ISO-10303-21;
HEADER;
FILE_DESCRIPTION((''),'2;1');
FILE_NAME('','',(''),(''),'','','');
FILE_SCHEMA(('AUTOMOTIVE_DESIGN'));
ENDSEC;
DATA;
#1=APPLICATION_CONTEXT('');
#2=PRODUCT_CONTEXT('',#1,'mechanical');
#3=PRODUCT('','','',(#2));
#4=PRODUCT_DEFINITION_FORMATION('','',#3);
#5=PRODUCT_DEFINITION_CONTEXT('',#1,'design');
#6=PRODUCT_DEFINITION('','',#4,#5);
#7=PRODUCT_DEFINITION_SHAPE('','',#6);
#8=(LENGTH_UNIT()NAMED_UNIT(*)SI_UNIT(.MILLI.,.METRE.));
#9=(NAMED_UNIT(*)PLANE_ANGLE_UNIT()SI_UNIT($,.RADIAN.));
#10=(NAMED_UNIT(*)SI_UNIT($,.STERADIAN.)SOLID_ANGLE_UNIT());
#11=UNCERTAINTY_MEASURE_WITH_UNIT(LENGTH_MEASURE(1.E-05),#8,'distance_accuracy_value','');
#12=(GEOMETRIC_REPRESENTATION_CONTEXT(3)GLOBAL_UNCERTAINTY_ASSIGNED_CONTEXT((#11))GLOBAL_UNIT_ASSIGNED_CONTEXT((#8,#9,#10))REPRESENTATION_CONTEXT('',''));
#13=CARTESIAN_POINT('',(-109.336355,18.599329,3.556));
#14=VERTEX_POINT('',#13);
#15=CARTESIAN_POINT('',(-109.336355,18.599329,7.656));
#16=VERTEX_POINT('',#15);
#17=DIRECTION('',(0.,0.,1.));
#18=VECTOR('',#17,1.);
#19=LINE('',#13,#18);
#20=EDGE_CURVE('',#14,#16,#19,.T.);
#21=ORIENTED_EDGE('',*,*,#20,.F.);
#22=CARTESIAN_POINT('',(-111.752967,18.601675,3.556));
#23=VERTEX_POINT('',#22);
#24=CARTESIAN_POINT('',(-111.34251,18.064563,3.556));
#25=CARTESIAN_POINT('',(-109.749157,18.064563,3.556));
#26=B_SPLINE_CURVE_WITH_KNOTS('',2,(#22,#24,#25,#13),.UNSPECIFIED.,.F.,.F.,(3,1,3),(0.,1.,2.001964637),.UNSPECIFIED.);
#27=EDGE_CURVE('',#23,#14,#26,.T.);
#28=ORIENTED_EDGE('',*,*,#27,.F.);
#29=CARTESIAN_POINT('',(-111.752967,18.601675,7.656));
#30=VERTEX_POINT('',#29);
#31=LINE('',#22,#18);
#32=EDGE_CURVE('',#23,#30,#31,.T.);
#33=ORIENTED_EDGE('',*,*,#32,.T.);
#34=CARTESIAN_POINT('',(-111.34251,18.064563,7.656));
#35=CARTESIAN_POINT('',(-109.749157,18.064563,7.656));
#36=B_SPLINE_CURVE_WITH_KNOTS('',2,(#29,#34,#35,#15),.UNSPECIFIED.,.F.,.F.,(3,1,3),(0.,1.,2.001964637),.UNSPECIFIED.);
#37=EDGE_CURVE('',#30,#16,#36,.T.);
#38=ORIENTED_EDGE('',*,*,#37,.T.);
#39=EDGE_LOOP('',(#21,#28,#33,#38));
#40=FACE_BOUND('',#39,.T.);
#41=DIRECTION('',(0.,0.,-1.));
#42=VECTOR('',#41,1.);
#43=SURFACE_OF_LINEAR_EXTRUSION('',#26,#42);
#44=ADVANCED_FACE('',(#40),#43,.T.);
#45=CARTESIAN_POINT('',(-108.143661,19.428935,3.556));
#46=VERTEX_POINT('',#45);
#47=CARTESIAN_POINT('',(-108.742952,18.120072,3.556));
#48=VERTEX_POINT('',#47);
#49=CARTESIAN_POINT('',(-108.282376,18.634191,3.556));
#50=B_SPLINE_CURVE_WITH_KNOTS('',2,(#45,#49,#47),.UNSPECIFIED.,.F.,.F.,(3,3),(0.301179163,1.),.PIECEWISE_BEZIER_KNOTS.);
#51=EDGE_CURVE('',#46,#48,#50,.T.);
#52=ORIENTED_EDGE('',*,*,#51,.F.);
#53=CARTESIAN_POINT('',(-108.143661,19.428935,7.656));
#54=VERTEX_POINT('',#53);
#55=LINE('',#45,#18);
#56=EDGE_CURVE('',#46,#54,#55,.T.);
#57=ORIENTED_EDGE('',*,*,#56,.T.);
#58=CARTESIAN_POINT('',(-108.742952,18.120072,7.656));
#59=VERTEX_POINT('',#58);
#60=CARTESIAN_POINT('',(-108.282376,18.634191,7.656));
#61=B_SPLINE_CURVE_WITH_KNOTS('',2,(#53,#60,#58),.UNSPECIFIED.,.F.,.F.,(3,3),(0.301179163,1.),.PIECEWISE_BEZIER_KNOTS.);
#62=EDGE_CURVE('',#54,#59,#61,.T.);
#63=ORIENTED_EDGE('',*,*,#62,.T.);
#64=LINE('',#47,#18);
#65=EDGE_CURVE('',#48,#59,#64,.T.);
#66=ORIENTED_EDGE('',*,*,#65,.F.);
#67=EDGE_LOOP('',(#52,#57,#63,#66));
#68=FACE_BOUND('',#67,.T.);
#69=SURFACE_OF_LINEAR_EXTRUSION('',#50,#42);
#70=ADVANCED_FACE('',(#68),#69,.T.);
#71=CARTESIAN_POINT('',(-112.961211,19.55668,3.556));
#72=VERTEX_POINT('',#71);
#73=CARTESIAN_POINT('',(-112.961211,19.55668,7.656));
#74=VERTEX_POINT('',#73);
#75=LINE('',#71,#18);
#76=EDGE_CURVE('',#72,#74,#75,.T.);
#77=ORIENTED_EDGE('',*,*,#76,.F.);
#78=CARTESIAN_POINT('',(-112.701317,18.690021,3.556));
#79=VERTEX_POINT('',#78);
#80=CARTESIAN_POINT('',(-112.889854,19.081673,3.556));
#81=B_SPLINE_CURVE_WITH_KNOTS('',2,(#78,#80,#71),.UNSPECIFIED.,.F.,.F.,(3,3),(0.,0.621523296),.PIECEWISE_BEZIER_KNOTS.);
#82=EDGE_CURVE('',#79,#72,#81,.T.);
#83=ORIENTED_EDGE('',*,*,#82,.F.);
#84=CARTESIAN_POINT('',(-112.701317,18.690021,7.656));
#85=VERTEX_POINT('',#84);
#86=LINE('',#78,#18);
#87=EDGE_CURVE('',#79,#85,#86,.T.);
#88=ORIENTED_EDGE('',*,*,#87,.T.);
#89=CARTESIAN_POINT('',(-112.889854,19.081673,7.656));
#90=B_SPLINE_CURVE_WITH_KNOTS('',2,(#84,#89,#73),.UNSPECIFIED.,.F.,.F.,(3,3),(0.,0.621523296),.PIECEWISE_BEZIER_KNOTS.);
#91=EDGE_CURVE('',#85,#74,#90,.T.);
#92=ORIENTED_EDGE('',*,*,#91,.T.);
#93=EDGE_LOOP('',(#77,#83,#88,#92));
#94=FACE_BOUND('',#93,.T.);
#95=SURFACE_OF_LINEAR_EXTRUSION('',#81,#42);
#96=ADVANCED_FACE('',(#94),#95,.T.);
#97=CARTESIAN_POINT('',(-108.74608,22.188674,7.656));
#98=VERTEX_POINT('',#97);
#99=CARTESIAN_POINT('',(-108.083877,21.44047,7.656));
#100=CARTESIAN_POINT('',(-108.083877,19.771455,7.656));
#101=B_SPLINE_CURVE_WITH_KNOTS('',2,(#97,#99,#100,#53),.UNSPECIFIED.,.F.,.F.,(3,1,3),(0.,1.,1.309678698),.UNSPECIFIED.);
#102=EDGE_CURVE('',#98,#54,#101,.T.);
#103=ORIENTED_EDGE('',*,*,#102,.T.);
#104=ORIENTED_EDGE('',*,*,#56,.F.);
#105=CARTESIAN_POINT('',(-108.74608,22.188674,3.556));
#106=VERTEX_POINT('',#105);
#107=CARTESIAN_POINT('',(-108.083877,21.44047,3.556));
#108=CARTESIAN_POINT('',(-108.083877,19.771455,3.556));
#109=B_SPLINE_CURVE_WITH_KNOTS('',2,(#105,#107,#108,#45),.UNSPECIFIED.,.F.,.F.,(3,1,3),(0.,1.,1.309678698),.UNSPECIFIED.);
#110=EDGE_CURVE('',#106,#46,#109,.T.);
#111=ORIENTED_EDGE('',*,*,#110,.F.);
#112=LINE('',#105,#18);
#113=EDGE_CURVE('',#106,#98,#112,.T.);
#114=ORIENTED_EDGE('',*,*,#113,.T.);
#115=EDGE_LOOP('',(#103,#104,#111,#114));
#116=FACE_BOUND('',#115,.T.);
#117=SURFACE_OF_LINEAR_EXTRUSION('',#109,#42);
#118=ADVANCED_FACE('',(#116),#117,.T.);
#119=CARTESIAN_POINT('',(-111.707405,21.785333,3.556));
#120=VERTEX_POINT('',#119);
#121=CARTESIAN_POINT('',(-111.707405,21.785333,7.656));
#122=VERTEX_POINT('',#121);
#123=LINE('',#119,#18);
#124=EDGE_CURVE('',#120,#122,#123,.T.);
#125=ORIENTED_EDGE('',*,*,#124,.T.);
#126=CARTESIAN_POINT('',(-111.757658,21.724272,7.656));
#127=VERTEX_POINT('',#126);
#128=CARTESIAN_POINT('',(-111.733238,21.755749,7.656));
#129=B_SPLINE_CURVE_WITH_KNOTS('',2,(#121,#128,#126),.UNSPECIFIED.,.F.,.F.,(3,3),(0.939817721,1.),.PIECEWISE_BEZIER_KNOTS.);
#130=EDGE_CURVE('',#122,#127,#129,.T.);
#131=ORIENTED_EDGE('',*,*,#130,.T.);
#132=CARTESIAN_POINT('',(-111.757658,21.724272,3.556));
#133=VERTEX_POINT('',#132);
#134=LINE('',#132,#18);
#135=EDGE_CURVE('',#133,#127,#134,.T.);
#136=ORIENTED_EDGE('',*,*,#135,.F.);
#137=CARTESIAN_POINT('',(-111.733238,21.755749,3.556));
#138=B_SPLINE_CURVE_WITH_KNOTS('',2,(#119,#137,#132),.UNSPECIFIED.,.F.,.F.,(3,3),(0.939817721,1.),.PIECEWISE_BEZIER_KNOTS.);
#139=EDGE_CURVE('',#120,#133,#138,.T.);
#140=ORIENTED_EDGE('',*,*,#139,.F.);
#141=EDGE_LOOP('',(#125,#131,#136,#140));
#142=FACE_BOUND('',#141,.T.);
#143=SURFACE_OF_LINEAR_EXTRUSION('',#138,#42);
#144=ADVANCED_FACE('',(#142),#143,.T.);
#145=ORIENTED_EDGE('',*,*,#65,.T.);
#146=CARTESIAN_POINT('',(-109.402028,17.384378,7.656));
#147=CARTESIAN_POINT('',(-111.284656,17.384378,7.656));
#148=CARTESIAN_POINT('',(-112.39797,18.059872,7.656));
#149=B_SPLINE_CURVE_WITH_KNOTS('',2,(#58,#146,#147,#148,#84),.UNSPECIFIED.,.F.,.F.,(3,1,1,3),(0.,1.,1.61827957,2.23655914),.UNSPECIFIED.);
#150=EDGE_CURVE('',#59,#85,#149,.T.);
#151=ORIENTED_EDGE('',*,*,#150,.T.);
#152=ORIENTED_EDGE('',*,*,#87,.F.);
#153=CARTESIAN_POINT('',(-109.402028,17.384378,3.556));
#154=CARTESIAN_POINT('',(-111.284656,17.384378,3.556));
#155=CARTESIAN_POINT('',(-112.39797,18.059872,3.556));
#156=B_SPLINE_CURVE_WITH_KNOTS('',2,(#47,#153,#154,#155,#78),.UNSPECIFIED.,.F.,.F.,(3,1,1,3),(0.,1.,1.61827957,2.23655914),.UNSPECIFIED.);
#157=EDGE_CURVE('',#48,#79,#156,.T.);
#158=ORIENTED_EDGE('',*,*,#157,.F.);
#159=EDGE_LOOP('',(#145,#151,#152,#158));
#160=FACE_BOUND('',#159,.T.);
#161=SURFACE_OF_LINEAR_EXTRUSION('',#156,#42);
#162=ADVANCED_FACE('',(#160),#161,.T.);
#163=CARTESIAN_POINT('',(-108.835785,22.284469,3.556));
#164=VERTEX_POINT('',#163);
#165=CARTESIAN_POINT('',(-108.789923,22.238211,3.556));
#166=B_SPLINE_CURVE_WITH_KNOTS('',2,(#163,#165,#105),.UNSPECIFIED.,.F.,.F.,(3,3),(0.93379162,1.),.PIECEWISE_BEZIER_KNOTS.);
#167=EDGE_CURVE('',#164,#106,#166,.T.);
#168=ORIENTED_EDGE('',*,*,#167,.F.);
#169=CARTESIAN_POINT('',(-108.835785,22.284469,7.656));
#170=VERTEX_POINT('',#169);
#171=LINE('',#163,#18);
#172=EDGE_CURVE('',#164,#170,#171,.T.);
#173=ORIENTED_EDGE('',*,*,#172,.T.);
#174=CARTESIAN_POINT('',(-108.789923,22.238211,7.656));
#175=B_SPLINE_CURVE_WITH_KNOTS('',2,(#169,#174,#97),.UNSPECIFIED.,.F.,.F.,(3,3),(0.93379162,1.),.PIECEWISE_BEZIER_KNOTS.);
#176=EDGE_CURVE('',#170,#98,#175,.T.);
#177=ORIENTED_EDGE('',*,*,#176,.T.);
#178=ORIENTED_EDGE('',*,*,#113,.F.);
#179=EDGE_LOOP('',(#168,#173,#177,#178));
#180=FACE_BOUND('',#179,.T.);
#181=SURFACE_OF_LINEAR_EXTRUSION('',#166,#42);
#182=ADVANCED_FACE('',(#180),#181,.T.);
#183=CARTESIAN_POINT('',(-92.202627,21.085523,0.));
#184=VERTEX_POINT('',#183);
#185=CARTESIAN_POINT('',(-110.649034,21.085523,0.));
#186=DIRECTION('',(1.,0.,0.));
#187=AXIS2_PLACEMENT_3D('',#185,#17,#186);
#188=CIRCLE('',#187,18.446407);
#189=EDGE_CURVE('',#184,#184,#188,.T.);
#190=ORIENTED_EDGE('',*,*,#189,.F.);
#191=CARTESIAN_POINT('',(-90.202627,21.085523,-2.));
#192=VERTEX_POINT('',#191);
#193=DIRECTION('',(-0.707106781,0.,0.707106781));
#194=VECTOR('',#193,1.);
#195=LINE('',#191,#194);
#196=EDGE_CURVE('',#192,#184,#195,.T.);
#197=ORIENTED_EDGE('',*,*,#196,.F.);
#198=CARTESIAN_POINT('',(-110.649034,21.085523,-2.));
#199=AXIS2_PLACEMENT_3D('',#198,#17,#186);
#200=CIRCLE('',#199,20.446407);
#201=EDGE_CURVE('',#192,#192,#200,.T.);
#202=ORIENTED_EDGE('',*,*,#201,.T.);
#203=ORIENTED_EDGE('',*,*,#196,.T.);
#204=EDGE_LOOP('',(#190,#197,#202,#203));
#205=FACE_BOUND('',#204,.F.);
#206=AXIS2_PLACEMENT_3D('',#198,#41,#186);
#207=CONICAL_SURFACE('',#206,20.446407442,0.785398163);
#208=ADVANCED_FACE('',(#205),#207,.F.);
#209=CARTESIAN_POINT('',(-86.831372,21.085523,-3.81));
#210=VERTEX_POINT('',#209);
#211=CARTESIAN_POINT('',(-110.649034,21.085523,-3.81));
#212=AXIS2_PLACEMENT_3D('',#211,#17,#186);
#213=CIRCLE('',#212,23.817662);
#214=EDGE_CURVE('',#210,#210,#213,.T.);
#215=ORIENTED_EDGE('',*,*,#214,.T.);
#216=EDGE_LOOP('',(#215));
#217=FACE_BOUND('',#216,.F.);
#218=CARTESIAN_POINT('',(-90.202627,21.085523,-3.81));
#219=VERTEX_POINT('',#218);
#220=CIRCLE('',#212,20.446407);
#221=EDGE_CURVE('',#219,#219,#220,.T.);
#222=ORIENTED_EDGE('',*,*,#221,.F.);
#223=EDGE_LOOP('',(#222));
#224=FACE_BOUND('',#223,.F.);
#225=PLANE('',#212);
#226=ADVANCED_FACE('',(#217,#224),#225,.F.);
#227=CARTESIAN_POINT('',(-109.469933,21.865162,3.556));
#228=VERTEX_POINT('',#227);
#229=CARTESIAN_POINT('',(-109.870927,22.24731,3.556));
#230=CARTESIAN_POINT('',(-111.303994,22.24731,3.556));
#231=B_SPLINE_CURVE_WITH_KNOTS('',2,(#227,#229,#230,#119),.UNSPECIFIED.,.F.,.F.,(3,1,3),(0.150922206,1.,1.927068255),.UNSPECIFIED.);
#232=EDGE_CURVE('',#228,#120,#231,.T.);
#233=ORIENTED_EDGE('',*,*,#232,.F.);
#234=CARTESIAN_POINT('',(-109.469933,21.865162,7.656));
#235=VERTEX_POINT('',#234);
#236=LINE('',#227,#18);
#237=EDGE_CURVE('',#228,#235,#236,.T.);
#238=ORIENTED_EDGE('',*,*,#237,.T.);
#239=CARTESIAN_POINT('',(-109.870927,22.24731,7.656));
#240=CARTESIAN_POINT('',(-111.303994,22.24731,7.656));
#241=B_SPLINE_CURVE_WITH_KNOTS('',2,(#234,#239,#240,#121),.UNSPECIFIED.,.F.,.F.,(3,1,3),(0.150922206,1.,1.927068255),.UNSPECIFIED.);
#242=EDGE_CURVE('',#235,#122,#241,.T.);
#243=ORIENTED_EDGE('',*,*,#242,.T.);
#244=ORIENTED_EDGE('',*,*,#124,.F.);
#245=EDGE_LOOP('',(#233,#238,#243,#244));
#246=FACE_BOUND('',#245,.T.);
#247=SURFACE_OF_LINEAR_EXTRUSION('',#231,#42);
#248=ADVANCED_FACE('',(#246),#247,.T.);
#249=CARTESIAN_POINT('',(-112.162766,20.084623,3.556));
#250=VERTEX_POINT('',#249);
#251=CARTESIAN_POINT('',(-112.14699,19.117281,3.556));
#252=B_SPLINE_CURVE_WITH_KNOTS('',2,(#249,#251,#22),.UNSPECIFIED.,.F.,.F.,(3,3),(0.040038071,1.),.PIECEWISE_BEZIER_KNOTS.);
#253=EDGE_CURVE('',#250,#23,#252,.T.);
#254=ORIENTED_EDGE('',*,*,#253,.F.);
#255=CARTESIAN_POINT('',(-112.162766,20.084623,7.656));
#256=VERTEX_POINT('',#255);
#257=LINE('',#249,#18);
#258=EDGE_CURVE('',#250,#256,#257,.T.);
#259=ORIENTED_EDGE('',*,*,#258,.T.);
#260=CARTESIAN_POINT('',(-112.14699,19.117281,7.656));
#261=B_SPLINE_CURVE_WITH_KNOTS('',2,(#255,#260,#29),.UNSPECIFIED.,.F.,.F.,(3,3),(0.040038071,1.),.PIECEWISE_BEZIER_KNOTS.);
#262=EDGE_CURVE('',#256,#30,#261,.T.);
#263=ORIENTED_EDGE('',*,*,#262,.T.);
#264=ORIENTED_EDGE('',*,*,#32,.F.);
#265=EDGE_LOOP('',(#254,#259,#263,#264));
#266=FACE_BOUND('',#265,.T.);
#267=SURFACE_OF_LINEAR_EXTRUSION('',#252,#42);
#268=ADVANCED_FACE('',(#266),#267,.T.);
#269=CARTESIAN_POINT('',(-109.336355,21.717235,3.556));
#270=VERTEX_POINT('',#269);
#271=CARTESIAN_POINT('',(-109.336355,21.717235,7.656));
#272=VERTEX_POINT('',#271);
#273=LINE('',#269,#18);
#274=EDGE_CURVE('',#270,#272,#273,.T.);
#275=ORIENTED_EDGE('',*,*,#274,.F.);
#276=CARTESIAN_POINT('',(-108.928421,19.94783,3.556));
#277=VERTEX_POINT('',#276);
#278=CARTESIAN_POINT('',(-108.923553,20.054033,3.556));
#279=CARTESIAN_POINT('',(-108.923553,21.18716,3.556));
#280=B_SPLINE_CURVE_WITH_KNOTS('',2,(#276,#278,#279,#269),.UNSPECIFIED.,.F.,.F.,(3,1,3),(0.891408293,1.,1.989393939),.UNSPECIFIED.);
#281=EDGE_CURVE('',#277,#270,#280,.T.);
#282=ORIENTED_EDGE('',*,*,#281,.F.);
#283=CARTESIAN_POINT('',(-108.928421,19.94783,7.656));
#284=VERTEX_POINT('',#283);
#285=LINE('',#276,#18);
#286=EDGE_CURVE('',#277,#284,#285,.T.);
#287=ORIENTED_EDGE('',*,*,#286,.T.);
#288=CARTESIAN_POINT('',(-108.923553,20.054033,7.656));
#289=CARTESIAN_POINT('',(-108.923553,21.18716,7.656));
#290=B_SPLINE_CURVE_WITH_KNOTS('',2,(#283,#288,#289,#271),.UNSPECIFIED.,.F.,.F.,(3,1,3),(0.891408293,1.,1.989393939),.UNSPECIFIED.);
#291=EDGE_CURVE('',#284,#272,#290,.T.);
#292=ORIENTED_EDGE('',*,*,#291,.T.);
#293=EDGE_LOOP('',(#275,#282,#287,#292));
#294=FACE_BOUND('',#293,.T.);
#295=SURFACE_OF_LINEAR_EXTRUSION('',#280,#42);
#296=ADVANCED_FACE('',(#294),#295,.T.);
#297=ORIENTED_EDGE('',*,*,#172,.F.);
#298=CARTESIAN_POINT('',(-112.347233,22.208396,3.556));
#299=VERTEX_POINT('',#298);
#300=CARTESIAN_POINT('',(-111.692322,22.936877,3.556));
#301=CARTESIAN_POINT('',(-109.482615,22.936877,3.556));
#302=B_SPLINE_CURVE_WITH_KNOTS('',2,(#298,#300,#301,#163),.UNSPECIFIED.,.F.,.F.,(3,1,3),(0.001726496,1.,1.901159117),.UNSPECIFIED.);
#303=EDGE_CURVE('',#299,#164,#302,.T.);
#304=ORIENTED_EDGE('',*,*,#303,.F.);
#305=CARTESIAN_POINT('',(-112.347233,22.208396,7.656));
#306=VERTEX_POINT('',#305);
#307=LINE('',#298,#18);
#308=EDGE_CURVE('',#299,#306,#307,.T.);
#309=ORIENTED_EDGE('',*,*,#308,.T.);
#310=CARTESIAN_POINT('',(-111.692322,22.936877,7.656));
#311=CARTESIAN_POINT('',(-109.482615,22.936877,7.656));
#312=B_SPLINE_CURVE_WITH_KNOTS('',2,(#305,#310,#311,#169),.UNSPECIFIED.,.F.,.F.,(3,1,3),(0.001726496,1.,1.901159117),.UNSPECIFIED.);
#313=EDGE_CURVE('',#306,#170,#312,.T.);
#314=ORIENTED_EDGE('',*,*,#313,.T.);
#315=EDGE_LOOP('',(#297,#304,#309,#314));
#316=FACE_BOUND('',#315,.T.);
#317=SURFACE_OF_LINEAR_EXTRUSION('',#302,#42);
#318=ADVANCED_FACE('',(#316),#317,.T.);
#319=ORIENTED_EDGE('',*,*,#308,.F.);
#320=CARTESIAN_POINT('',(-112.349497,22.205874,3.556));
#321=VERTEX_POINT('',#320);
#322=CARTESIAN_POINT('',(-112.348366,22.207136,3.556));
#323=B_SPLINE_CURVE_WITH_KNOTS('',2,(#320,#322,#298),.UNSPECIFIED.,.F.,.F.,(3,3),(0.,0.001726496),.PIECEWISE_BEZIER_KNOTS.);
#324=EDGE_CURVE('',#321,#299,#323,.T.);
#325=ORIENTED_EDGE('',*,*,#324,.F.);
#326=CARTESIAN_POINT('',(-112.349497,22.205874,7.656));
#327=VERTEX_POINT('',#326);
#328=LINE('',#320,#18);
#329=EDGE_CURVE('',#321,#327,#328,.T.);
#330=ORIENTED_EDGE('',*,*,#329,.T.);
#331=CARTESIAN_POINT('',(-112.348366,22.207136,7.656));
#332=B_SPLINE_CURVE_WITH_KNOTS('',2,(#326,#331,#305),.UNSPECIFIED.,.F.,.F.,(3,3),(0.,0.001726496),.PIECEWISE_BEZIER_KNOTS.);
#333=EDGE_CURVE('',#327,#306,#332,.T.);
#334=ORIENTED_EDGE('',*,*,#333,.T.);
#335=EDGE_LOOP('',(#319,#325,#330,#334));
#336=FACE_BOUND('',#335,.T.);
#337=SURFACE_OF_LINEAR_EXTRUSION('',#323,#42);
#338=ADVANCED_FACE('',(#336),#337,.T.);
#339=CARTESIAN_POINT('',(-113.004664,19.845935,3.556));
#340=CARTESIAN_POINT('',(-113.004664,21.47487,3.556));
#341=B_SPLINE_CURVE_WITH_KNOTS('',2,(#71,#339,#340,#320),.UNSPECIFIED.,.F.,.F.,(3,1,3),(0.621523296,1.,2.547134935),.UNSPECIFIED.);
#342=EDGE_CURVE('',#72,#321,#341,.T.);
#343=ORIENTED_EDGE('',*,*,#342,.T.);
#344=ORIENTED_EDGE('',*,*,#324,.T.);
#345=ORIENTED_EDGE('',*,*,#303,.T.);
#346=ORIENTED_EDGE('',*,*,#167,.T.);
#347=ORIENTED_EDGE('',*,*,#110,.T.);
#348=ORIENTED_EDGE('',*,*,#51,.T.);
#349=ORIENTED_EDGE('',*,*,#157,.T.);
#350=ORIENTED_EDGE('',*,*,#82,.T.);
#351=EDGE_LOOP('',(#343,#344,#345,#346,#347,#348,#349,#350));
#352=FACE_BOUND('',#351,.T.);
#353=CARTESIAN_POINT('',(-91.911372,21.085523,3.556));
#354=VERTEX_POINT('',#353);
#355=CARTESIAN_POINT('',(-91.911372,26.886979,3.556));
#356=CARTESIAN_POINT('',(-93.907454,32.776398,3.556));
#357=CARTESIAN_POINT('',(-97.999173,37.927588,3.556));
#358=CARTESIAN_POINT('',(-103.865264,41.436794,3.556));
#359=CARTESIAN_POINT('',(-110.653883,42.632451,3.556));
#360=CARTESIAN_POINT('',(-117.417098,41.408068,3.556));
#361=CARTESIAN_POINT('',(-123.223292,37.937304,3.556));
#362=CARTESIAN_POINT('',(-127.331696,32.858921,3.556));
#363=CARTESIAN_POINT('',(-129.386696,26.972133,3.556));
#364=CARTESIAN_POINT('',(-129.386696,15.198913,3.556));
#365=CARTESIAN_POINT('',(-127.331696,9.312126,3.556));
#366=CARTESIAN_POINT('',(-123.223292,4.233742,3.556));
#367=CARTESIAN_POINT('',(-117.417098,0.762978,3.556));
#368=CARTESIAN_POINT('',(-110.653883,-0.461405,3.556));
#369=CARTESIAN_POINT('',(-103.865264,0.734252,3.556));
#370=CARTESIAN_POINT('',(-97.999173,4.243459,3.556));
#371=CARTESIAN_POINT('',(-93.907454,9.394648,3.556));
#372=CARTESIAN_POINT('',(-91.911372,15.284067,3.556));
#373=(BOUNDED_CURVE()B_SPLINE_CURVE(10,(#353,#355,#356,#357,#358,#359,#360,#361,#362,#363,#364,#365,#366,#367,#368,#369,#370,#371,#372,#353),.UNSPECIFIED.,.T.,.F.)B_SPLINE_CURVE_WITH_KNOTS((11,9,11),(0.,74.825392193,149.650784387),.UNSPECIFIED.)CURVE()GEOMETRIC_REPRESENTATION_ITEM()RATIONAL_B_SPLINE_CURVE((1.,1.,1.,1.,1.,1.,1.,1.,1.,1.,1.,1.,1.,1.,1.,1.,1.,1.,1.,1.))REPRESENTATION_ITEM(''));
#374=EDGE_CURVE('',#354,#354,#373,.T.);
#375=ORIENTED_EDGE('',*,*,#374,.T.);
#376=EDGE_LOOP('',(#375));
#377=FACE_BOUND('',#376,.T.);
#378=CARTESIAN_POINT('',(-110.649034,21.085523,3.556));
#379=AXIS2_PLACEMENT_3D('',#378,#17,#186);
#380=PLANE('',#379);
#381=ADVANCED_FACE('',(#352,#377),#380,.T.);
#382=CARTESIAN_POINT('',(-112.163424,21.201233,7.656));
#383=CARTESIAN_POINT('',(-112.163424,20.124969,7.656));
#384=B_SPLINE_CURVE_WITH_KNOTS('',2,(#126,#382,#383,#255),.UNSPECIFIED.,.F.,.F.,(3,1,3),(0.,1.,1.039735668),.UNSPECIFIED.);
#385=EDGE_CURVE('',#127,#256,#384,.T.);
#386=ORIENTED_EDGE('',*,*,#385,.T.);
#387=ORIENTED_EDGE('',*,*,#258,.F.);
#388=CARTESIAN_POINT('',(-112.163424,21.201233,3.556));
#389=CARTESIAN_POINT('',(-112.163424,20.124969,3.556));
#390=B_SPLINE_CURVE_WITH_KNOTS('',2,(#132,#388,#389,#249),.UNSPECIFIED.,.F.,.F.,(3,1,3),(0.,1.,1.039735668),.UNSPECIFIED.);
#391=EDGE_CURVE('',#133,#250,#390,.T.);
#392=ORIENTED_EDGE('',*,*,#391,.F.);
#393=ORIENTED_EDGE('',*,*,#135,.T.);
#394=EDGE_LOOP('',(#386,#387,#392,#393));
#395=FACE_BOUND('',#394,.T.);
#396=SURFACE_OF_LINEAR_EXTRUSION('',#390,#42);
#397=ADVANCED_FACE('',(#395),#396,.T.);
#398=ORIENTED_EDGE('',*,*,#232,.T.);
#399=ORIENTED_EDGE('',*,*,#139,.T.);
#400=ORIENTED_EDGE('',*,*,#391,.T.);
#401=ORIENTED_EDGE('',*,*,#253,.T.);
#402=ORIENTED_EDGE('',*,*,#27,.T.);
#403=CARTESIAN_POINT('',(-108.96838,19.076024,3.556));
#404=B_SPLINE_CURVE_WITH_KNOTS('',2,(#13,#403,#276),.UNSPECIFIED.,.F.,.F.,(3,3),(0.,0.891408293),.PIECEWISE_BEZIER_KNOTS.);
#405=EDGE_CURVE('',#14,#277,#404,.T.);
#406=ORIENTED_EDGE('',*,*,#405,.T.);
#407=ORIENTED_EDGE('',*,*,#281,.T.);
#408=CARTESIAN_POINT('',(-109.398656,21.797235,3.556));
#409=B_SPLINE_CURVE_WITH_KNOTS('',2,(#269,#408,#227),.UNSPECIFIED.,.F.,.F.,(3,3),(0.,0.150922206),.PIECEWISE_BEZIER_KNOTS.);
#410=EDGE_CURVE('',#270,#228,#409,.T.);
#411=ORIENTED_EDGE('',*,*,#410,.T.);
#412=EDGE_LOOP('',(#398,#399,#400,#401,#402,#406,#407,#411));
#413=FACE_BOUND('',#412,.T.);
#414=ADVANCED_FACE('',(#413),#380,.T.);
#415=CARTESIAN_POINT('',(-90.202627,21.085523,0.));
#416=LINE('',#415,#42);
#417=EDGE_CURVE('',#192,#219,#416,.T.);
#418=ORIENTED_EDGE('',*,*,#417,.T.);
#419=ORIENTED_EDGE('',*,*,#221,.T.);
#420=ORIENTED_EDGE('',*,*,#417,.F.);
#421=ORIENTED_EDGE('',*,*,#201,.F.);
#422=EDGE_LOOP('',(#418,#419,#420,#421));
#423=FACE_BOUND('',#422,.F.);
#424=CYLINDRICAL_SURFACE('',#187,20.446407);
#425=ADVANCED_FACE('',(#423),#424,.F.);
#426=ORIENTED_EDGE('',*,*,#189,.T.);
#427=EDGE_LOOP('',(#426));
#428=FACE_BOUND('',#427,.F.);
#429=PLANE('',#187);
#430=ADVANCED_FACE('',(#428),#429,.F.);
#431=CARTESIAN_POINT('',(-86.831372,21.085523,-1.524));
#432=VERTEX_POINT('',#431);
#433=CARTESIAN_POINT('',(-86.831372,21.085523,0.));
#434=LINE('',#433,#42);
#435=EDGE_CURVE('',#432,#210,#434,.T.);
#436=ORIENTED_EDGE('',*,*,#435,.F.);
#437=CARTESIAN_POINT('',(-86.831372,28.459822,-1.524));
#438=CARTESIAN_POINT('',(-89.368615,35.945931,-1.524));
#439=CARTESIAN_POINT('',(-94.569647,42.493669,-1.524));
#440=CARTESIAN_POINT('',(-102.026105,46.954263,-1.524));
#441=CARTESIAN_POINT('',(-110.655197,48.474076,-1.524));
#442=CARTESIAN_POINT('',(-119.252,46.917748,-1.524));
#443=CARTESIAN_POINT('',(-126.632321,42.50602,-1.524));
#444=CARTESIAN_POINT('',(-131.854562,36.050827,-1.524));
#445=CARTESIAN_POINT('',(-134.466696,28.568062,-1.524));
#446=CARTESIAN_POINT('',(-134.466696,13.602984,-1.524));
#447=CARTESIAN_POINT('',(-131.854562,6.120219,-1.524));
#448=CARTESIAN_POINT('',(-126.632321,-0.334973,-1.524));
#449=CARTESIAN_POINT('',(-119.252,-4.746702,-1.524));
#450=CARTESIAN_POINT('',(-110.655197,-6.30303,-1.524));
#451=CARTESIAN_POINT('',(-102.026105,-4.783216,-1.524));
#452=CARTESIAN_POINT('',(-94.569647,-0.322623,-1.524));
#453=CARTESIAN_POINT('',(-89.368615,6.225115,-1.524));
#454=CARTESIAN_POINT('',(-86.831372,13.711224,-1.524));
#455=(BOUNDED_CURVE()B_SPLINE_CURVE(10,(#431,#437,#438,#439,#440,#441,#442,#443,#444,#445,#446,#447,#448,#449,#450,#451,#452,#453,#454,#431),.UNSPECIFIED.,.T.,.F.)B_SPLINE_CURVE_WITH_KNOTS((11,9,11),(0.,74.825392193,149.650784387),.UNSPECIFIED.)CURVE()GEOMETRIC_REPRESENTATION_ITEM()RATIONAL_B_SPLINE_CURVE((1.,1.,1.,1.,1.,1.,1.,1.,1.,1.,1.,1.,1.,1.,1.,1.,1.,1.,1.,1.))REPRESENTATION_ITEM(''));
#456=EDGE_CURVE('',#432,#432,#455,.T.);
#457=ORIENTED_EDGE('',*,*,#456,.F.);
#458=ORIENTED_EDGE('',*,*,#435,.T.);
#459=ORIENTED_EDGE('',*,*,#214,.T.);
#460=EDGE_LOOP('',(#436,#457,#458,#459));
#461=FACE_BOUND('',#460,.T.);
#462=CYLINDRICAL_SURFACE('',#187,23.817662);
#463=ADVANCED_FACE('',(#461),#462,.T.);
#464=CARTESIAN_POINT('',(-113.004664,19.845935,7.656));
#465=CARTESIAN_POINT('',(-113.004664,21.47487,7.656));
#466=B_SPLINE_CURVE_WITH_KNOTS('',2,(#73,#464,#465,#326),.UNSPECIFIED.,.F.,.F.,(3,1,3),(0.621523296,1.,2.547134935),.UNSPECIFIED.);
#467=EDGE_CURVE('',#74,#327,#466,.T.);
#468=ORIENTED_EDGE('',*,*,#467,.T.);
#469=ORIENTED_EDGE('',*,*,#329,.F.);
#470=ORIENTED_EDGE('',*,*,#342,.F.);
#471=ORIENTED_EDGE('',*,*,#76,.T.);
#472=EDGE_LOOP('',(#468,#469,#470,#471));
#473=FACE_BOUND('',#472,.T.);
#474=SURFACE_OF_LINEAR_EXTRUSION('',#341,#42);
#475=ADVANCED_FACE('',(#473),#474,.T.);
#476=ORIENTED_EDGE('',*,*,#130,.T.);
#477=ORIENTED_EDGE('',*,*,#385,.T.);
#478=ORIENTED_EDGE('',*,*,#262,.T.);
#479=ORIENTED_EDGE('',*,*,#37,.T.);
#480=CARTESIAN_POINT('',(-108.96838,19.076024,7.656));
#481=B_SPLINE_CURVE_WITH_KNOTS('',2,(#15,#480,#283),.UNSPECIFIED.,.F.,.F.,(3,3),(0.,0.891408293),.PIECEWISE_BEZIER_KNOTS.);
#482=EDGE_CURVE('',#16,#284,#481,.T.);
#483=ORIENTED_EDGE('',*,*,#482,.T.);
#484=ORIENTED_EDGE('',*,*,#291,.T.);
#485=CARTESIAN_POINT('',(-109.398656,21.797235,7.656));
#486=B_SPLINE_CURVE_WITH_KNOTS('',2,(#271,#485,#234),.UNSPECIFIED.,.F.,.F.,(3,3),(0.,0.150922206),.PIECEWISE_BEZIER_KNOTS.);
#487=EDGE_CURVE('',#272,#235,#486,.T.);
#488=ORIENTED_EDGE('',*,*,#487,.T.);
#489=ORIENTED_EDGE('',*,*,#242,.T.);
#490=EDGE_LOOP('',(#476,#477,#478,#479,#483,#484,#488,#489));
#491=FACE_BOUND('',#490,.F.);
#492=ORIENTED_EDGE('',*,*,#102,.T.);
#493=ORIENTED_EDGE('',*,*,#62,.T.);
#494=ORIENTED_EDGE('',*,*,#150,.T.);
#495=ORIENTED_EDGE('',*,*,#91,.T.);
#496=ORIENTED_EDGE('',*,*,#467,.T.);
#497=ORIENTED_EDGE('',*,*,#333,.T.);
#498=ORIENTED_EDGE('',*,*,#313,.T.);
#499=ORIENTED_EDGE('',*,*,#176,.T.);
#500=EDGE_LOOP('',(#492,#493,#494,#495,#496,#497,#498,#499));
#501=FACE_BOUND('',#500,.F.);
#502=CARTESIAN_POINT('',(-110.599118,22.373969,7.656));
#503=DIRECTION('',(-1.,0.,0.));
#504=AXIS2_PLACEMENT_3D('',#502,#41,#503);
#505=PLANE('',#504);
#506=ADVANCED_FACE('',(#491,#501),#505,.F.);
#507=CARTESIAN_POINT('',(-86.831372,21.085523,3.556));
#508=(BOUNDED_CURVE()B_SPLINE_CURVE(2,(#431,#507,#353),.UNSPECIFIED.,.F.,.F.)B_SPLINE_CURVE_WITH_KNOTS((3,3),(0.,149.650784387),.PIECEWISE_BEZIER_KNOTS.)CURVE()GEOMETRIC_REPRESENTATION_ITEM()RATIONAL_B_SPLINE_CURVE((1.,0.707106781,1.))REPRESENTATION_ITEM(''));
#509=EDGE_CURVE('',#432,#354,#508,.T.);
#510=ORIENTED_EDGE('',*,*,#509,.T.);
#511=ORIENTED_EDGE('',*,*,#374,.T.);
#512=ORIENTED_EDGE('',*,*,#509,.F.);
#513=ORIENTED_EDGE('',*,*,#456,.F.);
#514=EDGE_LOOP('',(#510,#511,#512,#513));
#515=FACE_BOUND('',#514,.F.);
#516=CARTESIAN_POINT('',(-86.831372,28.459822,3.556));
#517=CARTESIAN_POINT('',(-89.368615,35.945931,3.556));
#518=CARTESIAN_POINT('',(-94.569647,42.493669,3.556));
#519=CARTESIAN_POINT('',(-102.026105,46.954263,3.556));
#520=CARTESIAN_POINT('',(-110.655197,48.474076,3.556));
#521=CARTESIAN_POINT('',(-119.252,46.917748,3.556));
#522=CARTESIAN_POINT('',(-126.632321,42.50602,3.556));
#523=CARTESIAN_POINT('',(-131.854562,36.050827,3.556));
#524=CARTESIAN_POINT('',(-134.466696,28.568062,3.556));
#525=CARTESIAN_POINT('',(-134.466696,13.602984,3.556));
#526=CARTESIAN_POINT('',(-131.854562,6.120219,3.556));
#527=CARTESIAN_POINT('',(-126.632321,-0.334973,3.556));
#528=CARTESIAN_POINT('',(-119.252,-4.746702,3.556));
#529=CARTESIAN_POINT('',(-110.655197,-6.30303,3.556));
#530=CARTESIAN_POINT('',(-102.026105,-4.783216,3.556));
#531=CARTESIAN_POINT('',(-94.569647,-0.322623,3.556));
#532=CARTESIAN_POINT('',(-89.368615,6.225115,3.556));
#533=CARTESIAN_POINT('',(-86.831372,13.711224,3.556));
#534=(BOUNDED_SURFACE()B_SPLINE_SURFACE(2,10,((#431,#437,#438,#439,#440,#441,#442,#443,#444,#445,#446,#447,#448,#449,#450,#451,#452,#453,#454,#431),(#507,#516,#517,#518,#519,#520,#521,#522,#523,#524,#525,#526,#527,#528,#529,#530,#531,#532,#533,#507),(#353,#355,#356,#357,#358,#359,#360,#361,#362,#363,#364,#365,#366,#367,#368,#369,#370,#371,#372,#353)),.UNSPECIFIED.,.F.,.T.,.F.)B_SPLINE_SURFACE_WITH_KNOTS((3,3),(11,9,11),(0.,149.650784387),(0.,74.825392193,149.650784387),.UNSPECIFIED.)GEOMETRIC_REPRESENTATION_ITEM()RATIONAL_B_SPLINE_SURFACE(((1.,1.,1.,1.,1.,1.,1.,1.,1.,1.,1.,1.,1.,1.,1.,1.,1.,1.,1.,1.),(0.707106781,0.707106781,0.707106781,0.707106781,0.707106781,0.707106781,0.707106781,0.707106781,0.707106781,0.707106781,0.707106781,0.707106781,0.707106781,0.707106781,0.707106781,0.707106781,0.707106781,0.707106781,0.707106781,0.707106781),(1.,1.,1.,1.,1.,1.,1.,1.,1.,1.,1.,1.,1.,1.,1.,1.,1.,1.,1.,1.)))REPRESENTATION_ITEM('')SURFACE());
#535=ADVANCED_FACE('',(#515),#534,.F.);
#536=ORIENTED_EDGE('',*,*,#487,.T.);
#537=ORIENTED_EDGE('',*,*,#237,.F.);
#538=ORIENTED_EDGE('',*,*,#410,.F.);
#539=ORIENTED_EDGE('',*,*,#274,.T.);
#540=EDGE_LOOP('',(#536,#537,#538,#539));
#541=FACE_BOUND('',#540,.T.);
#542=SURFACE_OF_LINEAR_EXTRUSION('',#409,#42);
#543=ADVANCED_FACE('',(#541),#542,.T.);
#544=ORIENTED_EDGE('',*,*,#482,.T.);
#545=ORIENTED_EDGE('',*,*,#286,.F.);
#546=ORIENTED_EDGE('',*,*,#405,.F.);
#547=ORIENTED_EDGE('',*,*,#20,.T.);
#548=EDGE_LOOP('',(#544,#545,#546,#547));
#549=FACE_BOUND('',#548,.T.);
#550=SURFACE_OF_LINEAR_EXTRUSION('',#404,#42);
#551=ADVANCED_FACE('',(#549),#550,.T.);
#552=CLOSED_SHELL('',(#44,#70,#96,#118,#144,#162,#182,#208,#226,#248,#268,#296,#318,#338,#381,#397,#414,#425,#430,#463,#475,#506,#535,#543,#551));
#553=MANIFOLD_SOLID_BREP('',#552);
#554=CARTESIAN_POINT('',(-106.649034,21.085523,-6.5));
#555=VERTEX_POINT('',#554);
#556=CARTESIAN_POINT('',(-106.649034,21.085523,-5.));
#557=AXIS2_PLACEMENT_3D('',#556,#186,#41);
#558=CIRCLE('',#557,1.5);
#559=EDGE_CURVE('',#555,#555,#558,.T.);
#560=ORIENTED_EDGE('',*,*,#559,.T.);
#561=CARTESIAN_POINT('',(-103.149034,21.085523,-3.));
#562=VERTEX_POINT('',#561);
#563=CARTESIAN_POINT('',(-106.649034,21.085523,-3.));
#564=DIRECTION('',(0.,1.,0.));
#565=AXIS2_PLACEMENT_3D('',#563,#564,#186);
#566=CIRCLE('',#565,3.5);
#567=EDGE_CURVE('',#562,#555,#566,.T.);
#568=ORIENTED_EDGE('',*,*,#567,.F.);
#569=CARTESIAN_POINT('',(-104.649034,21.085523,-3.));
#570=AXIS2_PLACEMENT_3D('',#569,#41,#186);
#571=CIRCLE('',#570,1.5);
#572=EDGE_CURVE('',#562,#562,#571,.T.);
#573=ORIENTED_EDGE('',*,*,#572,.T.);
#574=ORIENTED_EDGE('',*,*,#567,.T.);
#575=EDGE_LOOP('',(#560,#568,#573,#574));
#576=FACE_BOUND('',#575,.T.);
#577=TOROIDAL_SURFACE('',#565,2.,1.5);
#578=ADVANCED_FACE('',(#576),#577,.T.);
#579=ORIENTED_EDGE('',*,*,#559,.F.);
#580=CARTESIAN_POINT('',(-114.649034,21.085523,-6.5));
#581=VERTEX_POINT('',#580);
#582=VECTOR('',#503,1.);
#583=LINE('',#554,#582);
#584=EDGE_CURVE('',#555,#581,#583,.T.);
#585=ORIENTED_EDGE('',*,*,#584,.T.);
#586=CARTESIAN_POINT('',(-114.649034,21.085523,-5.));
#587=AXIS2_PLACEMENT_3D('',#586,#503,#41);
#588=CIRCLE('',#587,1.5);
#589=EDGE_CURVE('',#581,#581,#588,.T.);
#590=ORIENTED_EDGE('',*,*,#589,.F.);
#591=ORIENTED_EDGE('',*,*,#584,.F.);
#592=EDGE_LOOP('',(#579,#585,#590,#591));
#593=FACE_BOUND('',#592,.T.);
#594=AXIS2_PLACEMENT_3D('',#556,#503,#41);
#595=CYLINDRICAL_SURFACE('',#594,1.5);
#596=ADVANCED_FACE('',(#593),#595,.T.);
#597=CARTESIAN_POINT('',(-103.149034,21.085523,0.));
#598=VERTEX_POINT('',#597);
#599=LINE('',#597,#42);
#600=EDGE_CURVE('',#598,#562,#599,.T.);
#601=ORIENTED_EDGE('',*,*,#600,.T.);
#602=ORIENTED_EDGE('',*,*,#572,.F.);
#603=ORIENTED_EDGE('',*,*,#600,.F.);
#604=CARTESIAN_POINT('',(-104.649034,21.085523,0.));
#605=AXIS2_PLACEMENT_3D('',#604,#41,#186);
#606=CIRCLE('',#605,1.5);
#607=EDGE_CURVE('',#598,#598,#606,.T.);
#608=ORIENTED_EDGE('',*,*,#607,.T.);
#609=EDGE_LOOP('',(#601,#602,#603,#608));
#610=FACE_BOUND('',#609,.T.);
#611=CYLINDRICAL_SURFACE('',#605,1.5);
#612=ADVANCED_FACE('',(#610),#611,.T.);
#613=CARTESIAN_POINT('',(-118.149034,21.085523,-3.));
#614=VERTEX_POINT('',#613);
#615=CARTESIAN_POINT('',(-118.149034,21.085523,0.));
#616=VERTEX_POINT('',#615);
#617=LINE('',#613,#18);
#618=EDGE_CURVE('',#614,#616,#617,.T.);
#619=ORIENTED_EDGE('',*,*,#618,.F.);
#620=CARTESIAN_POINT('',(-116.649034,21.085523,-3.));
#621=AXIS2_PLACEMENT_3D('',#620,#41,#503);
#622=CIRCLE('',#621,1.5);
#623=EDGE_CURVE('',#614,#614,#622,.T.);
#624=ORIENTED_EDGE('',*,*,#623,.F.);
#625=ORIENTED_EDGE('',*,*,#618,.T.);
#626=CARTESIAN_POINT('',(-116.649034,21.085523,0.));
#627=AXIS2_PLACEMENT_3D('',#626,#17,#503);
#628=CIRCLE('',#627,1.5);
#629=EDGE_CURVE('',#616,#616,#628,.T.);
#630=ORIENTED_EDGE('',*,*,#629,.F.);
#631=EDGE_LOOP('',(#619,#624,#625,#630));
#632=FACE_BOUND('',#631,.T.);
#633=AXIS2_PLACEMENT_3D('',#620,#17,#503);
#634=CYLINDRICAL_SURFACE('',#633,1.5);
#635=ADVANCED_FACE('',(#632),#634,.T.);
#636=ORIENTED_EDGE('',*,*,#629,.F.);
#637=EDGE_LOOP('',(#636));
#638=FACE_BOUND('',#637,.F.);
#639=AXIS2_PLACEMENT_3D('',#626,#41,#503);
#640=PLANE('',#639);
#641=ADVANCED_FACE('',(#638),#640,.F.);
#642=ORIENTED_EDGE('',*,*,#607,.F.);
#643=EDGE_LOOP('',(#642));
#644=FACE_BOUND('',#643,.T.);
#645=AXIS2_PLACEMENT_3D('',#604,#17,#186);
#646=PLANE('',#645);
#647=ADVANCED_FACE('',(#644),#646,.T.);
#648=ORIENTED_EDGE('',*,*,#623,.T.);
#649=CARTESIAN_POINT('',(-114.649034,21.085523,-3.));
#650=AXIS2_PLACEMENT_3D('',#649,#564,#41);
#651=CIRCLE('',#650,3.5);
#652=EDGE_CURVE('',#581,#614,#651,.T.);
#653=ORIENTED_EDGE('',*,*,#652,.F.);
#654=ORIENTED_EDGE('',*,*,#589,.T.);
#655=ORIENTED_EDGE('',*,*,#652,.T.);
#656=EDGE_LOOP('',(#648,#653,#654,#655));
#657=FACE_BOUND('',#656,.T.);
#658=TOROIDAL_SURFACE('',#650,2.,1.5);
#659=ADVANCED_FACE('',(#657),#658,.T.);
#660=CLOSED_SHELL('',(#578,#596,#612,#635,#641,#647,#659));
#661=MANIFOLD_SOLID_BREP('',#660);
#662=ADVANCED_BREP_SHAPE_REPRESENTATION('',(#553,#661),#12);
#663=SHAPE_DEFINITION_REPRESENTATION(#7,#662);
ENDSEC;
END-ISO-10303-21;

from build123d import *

# Parameters (mm, degrees)
F0_R      = 23.8176620727
F0_R_2    = 20.4464074417
F1_DEPTH  = 3.81
F2_DEPTH  = 3.556
F3_DEPTH  = 3.556
F5_R      = 5.08
F6_SIZE   = 2
F9_R      = 1.5
F12_DEPTH = 4.1


with BuildPart() as f1:
    # F0 (on Top) → F1 (new body)
    with BuildSketch(Plane.XY):
        with Locations((-110.6490343809, 21.0855230689)):
            Circle(F0_R)
        with Locations((-110.6490343809, 21.0855230689)):
            Circle(F0_R_2, mode=Mode.SUBTRACT)
    extrude(amount=-F1_DEPTH)


with BuildPart() as f2:
    # F0 (on Top) → F2 (new body)
    with BuildSketch(Plane.XY):
        with Locations((-110.6490343809, 21.0855230689)):
            Circle(F0_R_2)
    extrude(amount=F2_DEPTH)


with BuildPart() as f3:
    # F0 (on Top) → F3 (new body)
    with BuildSketch(Plane.XY):
        with Locations((-110.6490343809, 21.0855230689)):
            Circle(F0_R)
        with Locations((-110.6490343809, 21.0855230689)):
            Circle(F0_R_2, mode=Mode.SUBTRACT)
    extrude(amount=F3_DEPTH)


with BuildPart() as f1_1:
    add(f1.part)

    # F4: union F2, F3
    add(f2.part)
    add(f3.part)

    # F5
    f5_edges = [f1_1.edges().sort_by_distance(p)[0] for p in [
        (-134.466696, 21.085523, 3.556),
    ]]
    fillet(f5_edges, radius=F5_R)

    # F6
    f6_edges = [f1_1.edges().sort_by_distance(p)[0] for p in [
        (-131.095442, 21.085523, 0),
    ]]
    chamfer(f6_edges, length=F6_SIZE)

    # F11 (on face) → F12 (join)
    with BuildSketch(Plane.XY.offset(3.556)):
        with BuildLine():
            add(Edge.make_bspline(
                [(-112.3472333381, 22.208395905), (-111.6923218171, 22.9368774647), (-110.5309792653, 22.9368774647)],
                knots=[0.0017264962, 0.0017264962, 0.0017264962, 1, 1, 1], degree=2))
            Line((-112.3472333381, 22.208395905), (-111.7074051084, 21.7853325556))
            add(Edge.make_bspline(
                [(-110.5559975679, 22.247310498), (-111.3039935604, 22.247310498), (-111.7074051084, 21.7853325556)],
                knots=[0, 0, 0, 0.9398177205, 0.9398177205, 0.9398177205], degree=2))
            add(Edge.make_bspline(
                [(-109.4699325004, 21.8651616778), (-109.8709274196, 22.247310498), (-110.5559975679, 22.247310498)],
                knots=[0.150922206, 0.150922206, 0.150922206, 1, 1, 1], degree=2))
            Line((-109.4699325004, 21.8651616778), (-108.8357851326, 22.2844687622))
            add(Edge.make_bspline(
                [(-110.5309792653, 22.9368774647), (-109.4826148396, 22.9368774647), (-108.8357851326, 22.2844687622)],
                knots=[0, 0, 0, 0.9337916198, 0.9337916198, 0.9337916198], degree=2))
        make_face()
        with BuildLine():
            add(Edge.make_bspline(
                [(-108.8357851326, 22.2844687622), (-108.789923137, 22.2382112005), (-108.7460797359, 22.1886738512)],
                knots=[0.9337916198, 0.9337916198, 0.9337916198, 1, 1, 1], degree=2))
            Line((-108.8357851326, 22.2844687622), (-109.4699325004, 21.8651616778))
            add(Edge.make_bspline(
                [(-109.3363553139, 21.7172352107), (-109.3986563015, 21.7972353424), (-109.4699325004, 21.8651616778)],
                knots=[0, 0, 0, 0.150922206, 0.150922206, 0.150922206], degree=2))
            add(Edge.make_bspline(
                [(-108.9235533203, 20.1661004467), (-108.9235533203, 21.1871599234), (-109.3363553139, 21.7172352107)],
                knots=[0, 0, 0, 1, 1, 1], degree=2))
            add(Edge.make_bspline(
                [(-108.9284211469, 19.9478296004), (-108.9235533203, 20.0540332643), (-108.9235533203, 20.1661004467)],
                knots=[0.8914082935, 0.8914082935, 0.8914082935, 1, 1, 1], degree=2))
            Line((-108.9284211469, 19.9478296004), (-108.143660581, 19.4289349687))
            add(Edge.make_bspline(
                [(-108.0838765377, 20.1661004467), (-108.0838765377, 19.7714552689), (-108.143660581, 19.4289349687)],
                knots=[0, 0, 0, 0.3011791634, 0.3011791634, 0.3011791634], degree=2))
            add(Edge.make_bspline(
                [(-108.7460797359, 22.1886738512), (-108.0838765377, 21.4404702377), (-108.0838765377, 20.1661004467)],
                knots=[0, 0, 0, 1, 1, 1], degree=2))
        make_face()
        with BuildLine():
            Line((-112.1627655318, 20.0846229192), (-112.9612111267, 19.5566795556))
            add(Edge.make_bspline(
                [(-112.7013170199, 18.6900205905), (-112.8898541973, 19.0816725622), (-112.9612111267, 19.5566795556)],
                knots=[0, 0, 0, 0.6215232964, 0.6215232964, 0.6215232964], degree=2))
            add(Edge.make_bspline(
                [(-111.8413128664, 17.7221250069), (-112.3979701003, 18.0598720926), (-112.7013170199, 18.6900205905)],
                knots=[0, 0, 0, 1, 1, 1], degree=2))
            add(Edge.make_bspline(
                [(-110.5653794314, 17.3843779212), (-111.2846556325, 17.3843779212), (-111.8413128664, 17.7221250069)],
                knots=[0, 0, 0, 1, 1, 1], degree=2))
            add(Edge.make_bspline(
                [(-108.7429524481, 18.1200723834), (-109.4020283584, 17.3843779212), (-110.5653794314, 17.3843779212)],
                knots=[0, 0, 0, 1, 1, 1], degree=2))
            add(Edge.make_bspline(
                [(-108.143660581, 19.4289349687), (-108.282376469, 18.6341910029), (-108.7429524481, 18.1200723834)],
                knots=[0.3011791634, 0.3011791634, 0.3011791634, 1, 1, 1], degree=2))
            Line((-108.143660581, 19.4289349687), (-108.9284211469, 19.9478296004))
            add(Edge.make_bspline(
                [(-109.3363553139, 18.5993292434), (-108.9683801932, 19.0760242862), (-108.9284211469, 19.9478296004)],
                knots=[0, 0, 0, 0.8914082935, 0.8914082935, 0.8914082935], degree=2))
            add(Edge.make_bspline(
                [(-110.5466157045, 18.0645630244), (-109.7491573076, 18.0645630244), (-109.3363553139, 18.5993292434)],
                knots=[0, 0, 0, 1, 1, 1], degree=2))
            add(Edge.make_bspline(
                [(-111.7529669852, 18.6016747093), (-111.3425104574, 18.0645630244), (-110.5466157045, 18.0645630244)],
                knots=[0, 0, 0, 1, 1, 1], degree=2))
            add(Edge.make_bspline(
                [(-112.1627655318, 20.0846229192), (-112.1469896256, 19.1172814787), (-111.7529669852, 18.6016747093)],
                knots=[0.0400380705, 0.0400380705, 0.0400380705, 1, 1, 1], degree=2))
        make_face()
        with BuildLine():
            Line((-111.7074051084, 21.7853325556), (-112.3472333381, 22.208395905))
            add(Edge.make_bspline(
                [(-112.3494971389, 22.2058739343), (-112.3483659959, 22.2071360091), (-112.3472333381, 22.208395905)],
                knots=[0, 0, 0, 0.0017264962, 0.0017264962, 0.0017264962], degree=2))
            add(Edge.make_bspline(
                [(-113.0046639394, 20.1661004467), (-113.0046639394, 21.4748704038), (-112.3494971389, 22.2058739343)],
                knots=[0, 0, 0, 1, 1, 1], degree=2))
            add(Edge.make_bspline(
                [(-112.9612111267, 19.5566795556), (-113.0046639394, 19.8459351347), (-113.0046639394, 20.1661004467)],
                knots=[0.6215232964, 0.6215232964, 0.6215232964, 1, 1, 1], degree=2))
            Line((-112.9612111267, 19.5566795556), (-112.1627655318, 20.0846229192))
            add(Edge.make_bspline(
                [(-112.163423513, 20.1661004467), (-112.163423513, 20.1249687742), (-112.1627655318, 20.0846229192)],
                knots=[0, 0, 0, 0.0400380705, 0.0400380705, 0.0400380705], degree=2))
            add(Edge.make_bspline(
                [(-111.7576579169, 21.7242716083), (-112.163423513, 21.2012327186), (-112.163423513, 20.1661004467)],
                knots=[0, 0, 0, 1, 1, 1], degree=2))
            add(Edge.make_bspline(
                [(-111.7074051084, 21.7853325556), (-111.7332380184, 21.755749281), (-111.7576579169, 21.7242716083)],
                knots=[0.9398177205, 0.9398177205, 0.9398177205, 1, 1, 1], degree=2))
        make_face()
    extrude(amount=F12_DEPTH)


with BuildPart() as f10:
    # F10: sweep along a path in F8
    with BuildLine(Plane.XZ.offset(-21.0855230689)) as f10_path:
        Line((-104.6490343809, 0), (-104.6490343809, -3))
        ThreePointArc((-104.6490343809, -3), (-105.2348208185, -4.4142135624), (-106.6490343809, -5))
        Line((-106.6490343809, -5), (-114.6490343809, -5))
        ThreePointArc((-114.6490343809, -5), (-116.0632479433, -4.4142135624), (-116.6490343809, -3))
        Line((-116.6490343809, -3), (-116.6490343809, 0))
    # F9 (on face) → F10 (sweep)
    with BuildSketch(Plane.XY):
        with Locations((-104.6490343809, 21.0855230689)):
            Circle(F9_R)
    sweep(path=f10_path.line)


solid = Compound([f1_1.part, f10.part])
